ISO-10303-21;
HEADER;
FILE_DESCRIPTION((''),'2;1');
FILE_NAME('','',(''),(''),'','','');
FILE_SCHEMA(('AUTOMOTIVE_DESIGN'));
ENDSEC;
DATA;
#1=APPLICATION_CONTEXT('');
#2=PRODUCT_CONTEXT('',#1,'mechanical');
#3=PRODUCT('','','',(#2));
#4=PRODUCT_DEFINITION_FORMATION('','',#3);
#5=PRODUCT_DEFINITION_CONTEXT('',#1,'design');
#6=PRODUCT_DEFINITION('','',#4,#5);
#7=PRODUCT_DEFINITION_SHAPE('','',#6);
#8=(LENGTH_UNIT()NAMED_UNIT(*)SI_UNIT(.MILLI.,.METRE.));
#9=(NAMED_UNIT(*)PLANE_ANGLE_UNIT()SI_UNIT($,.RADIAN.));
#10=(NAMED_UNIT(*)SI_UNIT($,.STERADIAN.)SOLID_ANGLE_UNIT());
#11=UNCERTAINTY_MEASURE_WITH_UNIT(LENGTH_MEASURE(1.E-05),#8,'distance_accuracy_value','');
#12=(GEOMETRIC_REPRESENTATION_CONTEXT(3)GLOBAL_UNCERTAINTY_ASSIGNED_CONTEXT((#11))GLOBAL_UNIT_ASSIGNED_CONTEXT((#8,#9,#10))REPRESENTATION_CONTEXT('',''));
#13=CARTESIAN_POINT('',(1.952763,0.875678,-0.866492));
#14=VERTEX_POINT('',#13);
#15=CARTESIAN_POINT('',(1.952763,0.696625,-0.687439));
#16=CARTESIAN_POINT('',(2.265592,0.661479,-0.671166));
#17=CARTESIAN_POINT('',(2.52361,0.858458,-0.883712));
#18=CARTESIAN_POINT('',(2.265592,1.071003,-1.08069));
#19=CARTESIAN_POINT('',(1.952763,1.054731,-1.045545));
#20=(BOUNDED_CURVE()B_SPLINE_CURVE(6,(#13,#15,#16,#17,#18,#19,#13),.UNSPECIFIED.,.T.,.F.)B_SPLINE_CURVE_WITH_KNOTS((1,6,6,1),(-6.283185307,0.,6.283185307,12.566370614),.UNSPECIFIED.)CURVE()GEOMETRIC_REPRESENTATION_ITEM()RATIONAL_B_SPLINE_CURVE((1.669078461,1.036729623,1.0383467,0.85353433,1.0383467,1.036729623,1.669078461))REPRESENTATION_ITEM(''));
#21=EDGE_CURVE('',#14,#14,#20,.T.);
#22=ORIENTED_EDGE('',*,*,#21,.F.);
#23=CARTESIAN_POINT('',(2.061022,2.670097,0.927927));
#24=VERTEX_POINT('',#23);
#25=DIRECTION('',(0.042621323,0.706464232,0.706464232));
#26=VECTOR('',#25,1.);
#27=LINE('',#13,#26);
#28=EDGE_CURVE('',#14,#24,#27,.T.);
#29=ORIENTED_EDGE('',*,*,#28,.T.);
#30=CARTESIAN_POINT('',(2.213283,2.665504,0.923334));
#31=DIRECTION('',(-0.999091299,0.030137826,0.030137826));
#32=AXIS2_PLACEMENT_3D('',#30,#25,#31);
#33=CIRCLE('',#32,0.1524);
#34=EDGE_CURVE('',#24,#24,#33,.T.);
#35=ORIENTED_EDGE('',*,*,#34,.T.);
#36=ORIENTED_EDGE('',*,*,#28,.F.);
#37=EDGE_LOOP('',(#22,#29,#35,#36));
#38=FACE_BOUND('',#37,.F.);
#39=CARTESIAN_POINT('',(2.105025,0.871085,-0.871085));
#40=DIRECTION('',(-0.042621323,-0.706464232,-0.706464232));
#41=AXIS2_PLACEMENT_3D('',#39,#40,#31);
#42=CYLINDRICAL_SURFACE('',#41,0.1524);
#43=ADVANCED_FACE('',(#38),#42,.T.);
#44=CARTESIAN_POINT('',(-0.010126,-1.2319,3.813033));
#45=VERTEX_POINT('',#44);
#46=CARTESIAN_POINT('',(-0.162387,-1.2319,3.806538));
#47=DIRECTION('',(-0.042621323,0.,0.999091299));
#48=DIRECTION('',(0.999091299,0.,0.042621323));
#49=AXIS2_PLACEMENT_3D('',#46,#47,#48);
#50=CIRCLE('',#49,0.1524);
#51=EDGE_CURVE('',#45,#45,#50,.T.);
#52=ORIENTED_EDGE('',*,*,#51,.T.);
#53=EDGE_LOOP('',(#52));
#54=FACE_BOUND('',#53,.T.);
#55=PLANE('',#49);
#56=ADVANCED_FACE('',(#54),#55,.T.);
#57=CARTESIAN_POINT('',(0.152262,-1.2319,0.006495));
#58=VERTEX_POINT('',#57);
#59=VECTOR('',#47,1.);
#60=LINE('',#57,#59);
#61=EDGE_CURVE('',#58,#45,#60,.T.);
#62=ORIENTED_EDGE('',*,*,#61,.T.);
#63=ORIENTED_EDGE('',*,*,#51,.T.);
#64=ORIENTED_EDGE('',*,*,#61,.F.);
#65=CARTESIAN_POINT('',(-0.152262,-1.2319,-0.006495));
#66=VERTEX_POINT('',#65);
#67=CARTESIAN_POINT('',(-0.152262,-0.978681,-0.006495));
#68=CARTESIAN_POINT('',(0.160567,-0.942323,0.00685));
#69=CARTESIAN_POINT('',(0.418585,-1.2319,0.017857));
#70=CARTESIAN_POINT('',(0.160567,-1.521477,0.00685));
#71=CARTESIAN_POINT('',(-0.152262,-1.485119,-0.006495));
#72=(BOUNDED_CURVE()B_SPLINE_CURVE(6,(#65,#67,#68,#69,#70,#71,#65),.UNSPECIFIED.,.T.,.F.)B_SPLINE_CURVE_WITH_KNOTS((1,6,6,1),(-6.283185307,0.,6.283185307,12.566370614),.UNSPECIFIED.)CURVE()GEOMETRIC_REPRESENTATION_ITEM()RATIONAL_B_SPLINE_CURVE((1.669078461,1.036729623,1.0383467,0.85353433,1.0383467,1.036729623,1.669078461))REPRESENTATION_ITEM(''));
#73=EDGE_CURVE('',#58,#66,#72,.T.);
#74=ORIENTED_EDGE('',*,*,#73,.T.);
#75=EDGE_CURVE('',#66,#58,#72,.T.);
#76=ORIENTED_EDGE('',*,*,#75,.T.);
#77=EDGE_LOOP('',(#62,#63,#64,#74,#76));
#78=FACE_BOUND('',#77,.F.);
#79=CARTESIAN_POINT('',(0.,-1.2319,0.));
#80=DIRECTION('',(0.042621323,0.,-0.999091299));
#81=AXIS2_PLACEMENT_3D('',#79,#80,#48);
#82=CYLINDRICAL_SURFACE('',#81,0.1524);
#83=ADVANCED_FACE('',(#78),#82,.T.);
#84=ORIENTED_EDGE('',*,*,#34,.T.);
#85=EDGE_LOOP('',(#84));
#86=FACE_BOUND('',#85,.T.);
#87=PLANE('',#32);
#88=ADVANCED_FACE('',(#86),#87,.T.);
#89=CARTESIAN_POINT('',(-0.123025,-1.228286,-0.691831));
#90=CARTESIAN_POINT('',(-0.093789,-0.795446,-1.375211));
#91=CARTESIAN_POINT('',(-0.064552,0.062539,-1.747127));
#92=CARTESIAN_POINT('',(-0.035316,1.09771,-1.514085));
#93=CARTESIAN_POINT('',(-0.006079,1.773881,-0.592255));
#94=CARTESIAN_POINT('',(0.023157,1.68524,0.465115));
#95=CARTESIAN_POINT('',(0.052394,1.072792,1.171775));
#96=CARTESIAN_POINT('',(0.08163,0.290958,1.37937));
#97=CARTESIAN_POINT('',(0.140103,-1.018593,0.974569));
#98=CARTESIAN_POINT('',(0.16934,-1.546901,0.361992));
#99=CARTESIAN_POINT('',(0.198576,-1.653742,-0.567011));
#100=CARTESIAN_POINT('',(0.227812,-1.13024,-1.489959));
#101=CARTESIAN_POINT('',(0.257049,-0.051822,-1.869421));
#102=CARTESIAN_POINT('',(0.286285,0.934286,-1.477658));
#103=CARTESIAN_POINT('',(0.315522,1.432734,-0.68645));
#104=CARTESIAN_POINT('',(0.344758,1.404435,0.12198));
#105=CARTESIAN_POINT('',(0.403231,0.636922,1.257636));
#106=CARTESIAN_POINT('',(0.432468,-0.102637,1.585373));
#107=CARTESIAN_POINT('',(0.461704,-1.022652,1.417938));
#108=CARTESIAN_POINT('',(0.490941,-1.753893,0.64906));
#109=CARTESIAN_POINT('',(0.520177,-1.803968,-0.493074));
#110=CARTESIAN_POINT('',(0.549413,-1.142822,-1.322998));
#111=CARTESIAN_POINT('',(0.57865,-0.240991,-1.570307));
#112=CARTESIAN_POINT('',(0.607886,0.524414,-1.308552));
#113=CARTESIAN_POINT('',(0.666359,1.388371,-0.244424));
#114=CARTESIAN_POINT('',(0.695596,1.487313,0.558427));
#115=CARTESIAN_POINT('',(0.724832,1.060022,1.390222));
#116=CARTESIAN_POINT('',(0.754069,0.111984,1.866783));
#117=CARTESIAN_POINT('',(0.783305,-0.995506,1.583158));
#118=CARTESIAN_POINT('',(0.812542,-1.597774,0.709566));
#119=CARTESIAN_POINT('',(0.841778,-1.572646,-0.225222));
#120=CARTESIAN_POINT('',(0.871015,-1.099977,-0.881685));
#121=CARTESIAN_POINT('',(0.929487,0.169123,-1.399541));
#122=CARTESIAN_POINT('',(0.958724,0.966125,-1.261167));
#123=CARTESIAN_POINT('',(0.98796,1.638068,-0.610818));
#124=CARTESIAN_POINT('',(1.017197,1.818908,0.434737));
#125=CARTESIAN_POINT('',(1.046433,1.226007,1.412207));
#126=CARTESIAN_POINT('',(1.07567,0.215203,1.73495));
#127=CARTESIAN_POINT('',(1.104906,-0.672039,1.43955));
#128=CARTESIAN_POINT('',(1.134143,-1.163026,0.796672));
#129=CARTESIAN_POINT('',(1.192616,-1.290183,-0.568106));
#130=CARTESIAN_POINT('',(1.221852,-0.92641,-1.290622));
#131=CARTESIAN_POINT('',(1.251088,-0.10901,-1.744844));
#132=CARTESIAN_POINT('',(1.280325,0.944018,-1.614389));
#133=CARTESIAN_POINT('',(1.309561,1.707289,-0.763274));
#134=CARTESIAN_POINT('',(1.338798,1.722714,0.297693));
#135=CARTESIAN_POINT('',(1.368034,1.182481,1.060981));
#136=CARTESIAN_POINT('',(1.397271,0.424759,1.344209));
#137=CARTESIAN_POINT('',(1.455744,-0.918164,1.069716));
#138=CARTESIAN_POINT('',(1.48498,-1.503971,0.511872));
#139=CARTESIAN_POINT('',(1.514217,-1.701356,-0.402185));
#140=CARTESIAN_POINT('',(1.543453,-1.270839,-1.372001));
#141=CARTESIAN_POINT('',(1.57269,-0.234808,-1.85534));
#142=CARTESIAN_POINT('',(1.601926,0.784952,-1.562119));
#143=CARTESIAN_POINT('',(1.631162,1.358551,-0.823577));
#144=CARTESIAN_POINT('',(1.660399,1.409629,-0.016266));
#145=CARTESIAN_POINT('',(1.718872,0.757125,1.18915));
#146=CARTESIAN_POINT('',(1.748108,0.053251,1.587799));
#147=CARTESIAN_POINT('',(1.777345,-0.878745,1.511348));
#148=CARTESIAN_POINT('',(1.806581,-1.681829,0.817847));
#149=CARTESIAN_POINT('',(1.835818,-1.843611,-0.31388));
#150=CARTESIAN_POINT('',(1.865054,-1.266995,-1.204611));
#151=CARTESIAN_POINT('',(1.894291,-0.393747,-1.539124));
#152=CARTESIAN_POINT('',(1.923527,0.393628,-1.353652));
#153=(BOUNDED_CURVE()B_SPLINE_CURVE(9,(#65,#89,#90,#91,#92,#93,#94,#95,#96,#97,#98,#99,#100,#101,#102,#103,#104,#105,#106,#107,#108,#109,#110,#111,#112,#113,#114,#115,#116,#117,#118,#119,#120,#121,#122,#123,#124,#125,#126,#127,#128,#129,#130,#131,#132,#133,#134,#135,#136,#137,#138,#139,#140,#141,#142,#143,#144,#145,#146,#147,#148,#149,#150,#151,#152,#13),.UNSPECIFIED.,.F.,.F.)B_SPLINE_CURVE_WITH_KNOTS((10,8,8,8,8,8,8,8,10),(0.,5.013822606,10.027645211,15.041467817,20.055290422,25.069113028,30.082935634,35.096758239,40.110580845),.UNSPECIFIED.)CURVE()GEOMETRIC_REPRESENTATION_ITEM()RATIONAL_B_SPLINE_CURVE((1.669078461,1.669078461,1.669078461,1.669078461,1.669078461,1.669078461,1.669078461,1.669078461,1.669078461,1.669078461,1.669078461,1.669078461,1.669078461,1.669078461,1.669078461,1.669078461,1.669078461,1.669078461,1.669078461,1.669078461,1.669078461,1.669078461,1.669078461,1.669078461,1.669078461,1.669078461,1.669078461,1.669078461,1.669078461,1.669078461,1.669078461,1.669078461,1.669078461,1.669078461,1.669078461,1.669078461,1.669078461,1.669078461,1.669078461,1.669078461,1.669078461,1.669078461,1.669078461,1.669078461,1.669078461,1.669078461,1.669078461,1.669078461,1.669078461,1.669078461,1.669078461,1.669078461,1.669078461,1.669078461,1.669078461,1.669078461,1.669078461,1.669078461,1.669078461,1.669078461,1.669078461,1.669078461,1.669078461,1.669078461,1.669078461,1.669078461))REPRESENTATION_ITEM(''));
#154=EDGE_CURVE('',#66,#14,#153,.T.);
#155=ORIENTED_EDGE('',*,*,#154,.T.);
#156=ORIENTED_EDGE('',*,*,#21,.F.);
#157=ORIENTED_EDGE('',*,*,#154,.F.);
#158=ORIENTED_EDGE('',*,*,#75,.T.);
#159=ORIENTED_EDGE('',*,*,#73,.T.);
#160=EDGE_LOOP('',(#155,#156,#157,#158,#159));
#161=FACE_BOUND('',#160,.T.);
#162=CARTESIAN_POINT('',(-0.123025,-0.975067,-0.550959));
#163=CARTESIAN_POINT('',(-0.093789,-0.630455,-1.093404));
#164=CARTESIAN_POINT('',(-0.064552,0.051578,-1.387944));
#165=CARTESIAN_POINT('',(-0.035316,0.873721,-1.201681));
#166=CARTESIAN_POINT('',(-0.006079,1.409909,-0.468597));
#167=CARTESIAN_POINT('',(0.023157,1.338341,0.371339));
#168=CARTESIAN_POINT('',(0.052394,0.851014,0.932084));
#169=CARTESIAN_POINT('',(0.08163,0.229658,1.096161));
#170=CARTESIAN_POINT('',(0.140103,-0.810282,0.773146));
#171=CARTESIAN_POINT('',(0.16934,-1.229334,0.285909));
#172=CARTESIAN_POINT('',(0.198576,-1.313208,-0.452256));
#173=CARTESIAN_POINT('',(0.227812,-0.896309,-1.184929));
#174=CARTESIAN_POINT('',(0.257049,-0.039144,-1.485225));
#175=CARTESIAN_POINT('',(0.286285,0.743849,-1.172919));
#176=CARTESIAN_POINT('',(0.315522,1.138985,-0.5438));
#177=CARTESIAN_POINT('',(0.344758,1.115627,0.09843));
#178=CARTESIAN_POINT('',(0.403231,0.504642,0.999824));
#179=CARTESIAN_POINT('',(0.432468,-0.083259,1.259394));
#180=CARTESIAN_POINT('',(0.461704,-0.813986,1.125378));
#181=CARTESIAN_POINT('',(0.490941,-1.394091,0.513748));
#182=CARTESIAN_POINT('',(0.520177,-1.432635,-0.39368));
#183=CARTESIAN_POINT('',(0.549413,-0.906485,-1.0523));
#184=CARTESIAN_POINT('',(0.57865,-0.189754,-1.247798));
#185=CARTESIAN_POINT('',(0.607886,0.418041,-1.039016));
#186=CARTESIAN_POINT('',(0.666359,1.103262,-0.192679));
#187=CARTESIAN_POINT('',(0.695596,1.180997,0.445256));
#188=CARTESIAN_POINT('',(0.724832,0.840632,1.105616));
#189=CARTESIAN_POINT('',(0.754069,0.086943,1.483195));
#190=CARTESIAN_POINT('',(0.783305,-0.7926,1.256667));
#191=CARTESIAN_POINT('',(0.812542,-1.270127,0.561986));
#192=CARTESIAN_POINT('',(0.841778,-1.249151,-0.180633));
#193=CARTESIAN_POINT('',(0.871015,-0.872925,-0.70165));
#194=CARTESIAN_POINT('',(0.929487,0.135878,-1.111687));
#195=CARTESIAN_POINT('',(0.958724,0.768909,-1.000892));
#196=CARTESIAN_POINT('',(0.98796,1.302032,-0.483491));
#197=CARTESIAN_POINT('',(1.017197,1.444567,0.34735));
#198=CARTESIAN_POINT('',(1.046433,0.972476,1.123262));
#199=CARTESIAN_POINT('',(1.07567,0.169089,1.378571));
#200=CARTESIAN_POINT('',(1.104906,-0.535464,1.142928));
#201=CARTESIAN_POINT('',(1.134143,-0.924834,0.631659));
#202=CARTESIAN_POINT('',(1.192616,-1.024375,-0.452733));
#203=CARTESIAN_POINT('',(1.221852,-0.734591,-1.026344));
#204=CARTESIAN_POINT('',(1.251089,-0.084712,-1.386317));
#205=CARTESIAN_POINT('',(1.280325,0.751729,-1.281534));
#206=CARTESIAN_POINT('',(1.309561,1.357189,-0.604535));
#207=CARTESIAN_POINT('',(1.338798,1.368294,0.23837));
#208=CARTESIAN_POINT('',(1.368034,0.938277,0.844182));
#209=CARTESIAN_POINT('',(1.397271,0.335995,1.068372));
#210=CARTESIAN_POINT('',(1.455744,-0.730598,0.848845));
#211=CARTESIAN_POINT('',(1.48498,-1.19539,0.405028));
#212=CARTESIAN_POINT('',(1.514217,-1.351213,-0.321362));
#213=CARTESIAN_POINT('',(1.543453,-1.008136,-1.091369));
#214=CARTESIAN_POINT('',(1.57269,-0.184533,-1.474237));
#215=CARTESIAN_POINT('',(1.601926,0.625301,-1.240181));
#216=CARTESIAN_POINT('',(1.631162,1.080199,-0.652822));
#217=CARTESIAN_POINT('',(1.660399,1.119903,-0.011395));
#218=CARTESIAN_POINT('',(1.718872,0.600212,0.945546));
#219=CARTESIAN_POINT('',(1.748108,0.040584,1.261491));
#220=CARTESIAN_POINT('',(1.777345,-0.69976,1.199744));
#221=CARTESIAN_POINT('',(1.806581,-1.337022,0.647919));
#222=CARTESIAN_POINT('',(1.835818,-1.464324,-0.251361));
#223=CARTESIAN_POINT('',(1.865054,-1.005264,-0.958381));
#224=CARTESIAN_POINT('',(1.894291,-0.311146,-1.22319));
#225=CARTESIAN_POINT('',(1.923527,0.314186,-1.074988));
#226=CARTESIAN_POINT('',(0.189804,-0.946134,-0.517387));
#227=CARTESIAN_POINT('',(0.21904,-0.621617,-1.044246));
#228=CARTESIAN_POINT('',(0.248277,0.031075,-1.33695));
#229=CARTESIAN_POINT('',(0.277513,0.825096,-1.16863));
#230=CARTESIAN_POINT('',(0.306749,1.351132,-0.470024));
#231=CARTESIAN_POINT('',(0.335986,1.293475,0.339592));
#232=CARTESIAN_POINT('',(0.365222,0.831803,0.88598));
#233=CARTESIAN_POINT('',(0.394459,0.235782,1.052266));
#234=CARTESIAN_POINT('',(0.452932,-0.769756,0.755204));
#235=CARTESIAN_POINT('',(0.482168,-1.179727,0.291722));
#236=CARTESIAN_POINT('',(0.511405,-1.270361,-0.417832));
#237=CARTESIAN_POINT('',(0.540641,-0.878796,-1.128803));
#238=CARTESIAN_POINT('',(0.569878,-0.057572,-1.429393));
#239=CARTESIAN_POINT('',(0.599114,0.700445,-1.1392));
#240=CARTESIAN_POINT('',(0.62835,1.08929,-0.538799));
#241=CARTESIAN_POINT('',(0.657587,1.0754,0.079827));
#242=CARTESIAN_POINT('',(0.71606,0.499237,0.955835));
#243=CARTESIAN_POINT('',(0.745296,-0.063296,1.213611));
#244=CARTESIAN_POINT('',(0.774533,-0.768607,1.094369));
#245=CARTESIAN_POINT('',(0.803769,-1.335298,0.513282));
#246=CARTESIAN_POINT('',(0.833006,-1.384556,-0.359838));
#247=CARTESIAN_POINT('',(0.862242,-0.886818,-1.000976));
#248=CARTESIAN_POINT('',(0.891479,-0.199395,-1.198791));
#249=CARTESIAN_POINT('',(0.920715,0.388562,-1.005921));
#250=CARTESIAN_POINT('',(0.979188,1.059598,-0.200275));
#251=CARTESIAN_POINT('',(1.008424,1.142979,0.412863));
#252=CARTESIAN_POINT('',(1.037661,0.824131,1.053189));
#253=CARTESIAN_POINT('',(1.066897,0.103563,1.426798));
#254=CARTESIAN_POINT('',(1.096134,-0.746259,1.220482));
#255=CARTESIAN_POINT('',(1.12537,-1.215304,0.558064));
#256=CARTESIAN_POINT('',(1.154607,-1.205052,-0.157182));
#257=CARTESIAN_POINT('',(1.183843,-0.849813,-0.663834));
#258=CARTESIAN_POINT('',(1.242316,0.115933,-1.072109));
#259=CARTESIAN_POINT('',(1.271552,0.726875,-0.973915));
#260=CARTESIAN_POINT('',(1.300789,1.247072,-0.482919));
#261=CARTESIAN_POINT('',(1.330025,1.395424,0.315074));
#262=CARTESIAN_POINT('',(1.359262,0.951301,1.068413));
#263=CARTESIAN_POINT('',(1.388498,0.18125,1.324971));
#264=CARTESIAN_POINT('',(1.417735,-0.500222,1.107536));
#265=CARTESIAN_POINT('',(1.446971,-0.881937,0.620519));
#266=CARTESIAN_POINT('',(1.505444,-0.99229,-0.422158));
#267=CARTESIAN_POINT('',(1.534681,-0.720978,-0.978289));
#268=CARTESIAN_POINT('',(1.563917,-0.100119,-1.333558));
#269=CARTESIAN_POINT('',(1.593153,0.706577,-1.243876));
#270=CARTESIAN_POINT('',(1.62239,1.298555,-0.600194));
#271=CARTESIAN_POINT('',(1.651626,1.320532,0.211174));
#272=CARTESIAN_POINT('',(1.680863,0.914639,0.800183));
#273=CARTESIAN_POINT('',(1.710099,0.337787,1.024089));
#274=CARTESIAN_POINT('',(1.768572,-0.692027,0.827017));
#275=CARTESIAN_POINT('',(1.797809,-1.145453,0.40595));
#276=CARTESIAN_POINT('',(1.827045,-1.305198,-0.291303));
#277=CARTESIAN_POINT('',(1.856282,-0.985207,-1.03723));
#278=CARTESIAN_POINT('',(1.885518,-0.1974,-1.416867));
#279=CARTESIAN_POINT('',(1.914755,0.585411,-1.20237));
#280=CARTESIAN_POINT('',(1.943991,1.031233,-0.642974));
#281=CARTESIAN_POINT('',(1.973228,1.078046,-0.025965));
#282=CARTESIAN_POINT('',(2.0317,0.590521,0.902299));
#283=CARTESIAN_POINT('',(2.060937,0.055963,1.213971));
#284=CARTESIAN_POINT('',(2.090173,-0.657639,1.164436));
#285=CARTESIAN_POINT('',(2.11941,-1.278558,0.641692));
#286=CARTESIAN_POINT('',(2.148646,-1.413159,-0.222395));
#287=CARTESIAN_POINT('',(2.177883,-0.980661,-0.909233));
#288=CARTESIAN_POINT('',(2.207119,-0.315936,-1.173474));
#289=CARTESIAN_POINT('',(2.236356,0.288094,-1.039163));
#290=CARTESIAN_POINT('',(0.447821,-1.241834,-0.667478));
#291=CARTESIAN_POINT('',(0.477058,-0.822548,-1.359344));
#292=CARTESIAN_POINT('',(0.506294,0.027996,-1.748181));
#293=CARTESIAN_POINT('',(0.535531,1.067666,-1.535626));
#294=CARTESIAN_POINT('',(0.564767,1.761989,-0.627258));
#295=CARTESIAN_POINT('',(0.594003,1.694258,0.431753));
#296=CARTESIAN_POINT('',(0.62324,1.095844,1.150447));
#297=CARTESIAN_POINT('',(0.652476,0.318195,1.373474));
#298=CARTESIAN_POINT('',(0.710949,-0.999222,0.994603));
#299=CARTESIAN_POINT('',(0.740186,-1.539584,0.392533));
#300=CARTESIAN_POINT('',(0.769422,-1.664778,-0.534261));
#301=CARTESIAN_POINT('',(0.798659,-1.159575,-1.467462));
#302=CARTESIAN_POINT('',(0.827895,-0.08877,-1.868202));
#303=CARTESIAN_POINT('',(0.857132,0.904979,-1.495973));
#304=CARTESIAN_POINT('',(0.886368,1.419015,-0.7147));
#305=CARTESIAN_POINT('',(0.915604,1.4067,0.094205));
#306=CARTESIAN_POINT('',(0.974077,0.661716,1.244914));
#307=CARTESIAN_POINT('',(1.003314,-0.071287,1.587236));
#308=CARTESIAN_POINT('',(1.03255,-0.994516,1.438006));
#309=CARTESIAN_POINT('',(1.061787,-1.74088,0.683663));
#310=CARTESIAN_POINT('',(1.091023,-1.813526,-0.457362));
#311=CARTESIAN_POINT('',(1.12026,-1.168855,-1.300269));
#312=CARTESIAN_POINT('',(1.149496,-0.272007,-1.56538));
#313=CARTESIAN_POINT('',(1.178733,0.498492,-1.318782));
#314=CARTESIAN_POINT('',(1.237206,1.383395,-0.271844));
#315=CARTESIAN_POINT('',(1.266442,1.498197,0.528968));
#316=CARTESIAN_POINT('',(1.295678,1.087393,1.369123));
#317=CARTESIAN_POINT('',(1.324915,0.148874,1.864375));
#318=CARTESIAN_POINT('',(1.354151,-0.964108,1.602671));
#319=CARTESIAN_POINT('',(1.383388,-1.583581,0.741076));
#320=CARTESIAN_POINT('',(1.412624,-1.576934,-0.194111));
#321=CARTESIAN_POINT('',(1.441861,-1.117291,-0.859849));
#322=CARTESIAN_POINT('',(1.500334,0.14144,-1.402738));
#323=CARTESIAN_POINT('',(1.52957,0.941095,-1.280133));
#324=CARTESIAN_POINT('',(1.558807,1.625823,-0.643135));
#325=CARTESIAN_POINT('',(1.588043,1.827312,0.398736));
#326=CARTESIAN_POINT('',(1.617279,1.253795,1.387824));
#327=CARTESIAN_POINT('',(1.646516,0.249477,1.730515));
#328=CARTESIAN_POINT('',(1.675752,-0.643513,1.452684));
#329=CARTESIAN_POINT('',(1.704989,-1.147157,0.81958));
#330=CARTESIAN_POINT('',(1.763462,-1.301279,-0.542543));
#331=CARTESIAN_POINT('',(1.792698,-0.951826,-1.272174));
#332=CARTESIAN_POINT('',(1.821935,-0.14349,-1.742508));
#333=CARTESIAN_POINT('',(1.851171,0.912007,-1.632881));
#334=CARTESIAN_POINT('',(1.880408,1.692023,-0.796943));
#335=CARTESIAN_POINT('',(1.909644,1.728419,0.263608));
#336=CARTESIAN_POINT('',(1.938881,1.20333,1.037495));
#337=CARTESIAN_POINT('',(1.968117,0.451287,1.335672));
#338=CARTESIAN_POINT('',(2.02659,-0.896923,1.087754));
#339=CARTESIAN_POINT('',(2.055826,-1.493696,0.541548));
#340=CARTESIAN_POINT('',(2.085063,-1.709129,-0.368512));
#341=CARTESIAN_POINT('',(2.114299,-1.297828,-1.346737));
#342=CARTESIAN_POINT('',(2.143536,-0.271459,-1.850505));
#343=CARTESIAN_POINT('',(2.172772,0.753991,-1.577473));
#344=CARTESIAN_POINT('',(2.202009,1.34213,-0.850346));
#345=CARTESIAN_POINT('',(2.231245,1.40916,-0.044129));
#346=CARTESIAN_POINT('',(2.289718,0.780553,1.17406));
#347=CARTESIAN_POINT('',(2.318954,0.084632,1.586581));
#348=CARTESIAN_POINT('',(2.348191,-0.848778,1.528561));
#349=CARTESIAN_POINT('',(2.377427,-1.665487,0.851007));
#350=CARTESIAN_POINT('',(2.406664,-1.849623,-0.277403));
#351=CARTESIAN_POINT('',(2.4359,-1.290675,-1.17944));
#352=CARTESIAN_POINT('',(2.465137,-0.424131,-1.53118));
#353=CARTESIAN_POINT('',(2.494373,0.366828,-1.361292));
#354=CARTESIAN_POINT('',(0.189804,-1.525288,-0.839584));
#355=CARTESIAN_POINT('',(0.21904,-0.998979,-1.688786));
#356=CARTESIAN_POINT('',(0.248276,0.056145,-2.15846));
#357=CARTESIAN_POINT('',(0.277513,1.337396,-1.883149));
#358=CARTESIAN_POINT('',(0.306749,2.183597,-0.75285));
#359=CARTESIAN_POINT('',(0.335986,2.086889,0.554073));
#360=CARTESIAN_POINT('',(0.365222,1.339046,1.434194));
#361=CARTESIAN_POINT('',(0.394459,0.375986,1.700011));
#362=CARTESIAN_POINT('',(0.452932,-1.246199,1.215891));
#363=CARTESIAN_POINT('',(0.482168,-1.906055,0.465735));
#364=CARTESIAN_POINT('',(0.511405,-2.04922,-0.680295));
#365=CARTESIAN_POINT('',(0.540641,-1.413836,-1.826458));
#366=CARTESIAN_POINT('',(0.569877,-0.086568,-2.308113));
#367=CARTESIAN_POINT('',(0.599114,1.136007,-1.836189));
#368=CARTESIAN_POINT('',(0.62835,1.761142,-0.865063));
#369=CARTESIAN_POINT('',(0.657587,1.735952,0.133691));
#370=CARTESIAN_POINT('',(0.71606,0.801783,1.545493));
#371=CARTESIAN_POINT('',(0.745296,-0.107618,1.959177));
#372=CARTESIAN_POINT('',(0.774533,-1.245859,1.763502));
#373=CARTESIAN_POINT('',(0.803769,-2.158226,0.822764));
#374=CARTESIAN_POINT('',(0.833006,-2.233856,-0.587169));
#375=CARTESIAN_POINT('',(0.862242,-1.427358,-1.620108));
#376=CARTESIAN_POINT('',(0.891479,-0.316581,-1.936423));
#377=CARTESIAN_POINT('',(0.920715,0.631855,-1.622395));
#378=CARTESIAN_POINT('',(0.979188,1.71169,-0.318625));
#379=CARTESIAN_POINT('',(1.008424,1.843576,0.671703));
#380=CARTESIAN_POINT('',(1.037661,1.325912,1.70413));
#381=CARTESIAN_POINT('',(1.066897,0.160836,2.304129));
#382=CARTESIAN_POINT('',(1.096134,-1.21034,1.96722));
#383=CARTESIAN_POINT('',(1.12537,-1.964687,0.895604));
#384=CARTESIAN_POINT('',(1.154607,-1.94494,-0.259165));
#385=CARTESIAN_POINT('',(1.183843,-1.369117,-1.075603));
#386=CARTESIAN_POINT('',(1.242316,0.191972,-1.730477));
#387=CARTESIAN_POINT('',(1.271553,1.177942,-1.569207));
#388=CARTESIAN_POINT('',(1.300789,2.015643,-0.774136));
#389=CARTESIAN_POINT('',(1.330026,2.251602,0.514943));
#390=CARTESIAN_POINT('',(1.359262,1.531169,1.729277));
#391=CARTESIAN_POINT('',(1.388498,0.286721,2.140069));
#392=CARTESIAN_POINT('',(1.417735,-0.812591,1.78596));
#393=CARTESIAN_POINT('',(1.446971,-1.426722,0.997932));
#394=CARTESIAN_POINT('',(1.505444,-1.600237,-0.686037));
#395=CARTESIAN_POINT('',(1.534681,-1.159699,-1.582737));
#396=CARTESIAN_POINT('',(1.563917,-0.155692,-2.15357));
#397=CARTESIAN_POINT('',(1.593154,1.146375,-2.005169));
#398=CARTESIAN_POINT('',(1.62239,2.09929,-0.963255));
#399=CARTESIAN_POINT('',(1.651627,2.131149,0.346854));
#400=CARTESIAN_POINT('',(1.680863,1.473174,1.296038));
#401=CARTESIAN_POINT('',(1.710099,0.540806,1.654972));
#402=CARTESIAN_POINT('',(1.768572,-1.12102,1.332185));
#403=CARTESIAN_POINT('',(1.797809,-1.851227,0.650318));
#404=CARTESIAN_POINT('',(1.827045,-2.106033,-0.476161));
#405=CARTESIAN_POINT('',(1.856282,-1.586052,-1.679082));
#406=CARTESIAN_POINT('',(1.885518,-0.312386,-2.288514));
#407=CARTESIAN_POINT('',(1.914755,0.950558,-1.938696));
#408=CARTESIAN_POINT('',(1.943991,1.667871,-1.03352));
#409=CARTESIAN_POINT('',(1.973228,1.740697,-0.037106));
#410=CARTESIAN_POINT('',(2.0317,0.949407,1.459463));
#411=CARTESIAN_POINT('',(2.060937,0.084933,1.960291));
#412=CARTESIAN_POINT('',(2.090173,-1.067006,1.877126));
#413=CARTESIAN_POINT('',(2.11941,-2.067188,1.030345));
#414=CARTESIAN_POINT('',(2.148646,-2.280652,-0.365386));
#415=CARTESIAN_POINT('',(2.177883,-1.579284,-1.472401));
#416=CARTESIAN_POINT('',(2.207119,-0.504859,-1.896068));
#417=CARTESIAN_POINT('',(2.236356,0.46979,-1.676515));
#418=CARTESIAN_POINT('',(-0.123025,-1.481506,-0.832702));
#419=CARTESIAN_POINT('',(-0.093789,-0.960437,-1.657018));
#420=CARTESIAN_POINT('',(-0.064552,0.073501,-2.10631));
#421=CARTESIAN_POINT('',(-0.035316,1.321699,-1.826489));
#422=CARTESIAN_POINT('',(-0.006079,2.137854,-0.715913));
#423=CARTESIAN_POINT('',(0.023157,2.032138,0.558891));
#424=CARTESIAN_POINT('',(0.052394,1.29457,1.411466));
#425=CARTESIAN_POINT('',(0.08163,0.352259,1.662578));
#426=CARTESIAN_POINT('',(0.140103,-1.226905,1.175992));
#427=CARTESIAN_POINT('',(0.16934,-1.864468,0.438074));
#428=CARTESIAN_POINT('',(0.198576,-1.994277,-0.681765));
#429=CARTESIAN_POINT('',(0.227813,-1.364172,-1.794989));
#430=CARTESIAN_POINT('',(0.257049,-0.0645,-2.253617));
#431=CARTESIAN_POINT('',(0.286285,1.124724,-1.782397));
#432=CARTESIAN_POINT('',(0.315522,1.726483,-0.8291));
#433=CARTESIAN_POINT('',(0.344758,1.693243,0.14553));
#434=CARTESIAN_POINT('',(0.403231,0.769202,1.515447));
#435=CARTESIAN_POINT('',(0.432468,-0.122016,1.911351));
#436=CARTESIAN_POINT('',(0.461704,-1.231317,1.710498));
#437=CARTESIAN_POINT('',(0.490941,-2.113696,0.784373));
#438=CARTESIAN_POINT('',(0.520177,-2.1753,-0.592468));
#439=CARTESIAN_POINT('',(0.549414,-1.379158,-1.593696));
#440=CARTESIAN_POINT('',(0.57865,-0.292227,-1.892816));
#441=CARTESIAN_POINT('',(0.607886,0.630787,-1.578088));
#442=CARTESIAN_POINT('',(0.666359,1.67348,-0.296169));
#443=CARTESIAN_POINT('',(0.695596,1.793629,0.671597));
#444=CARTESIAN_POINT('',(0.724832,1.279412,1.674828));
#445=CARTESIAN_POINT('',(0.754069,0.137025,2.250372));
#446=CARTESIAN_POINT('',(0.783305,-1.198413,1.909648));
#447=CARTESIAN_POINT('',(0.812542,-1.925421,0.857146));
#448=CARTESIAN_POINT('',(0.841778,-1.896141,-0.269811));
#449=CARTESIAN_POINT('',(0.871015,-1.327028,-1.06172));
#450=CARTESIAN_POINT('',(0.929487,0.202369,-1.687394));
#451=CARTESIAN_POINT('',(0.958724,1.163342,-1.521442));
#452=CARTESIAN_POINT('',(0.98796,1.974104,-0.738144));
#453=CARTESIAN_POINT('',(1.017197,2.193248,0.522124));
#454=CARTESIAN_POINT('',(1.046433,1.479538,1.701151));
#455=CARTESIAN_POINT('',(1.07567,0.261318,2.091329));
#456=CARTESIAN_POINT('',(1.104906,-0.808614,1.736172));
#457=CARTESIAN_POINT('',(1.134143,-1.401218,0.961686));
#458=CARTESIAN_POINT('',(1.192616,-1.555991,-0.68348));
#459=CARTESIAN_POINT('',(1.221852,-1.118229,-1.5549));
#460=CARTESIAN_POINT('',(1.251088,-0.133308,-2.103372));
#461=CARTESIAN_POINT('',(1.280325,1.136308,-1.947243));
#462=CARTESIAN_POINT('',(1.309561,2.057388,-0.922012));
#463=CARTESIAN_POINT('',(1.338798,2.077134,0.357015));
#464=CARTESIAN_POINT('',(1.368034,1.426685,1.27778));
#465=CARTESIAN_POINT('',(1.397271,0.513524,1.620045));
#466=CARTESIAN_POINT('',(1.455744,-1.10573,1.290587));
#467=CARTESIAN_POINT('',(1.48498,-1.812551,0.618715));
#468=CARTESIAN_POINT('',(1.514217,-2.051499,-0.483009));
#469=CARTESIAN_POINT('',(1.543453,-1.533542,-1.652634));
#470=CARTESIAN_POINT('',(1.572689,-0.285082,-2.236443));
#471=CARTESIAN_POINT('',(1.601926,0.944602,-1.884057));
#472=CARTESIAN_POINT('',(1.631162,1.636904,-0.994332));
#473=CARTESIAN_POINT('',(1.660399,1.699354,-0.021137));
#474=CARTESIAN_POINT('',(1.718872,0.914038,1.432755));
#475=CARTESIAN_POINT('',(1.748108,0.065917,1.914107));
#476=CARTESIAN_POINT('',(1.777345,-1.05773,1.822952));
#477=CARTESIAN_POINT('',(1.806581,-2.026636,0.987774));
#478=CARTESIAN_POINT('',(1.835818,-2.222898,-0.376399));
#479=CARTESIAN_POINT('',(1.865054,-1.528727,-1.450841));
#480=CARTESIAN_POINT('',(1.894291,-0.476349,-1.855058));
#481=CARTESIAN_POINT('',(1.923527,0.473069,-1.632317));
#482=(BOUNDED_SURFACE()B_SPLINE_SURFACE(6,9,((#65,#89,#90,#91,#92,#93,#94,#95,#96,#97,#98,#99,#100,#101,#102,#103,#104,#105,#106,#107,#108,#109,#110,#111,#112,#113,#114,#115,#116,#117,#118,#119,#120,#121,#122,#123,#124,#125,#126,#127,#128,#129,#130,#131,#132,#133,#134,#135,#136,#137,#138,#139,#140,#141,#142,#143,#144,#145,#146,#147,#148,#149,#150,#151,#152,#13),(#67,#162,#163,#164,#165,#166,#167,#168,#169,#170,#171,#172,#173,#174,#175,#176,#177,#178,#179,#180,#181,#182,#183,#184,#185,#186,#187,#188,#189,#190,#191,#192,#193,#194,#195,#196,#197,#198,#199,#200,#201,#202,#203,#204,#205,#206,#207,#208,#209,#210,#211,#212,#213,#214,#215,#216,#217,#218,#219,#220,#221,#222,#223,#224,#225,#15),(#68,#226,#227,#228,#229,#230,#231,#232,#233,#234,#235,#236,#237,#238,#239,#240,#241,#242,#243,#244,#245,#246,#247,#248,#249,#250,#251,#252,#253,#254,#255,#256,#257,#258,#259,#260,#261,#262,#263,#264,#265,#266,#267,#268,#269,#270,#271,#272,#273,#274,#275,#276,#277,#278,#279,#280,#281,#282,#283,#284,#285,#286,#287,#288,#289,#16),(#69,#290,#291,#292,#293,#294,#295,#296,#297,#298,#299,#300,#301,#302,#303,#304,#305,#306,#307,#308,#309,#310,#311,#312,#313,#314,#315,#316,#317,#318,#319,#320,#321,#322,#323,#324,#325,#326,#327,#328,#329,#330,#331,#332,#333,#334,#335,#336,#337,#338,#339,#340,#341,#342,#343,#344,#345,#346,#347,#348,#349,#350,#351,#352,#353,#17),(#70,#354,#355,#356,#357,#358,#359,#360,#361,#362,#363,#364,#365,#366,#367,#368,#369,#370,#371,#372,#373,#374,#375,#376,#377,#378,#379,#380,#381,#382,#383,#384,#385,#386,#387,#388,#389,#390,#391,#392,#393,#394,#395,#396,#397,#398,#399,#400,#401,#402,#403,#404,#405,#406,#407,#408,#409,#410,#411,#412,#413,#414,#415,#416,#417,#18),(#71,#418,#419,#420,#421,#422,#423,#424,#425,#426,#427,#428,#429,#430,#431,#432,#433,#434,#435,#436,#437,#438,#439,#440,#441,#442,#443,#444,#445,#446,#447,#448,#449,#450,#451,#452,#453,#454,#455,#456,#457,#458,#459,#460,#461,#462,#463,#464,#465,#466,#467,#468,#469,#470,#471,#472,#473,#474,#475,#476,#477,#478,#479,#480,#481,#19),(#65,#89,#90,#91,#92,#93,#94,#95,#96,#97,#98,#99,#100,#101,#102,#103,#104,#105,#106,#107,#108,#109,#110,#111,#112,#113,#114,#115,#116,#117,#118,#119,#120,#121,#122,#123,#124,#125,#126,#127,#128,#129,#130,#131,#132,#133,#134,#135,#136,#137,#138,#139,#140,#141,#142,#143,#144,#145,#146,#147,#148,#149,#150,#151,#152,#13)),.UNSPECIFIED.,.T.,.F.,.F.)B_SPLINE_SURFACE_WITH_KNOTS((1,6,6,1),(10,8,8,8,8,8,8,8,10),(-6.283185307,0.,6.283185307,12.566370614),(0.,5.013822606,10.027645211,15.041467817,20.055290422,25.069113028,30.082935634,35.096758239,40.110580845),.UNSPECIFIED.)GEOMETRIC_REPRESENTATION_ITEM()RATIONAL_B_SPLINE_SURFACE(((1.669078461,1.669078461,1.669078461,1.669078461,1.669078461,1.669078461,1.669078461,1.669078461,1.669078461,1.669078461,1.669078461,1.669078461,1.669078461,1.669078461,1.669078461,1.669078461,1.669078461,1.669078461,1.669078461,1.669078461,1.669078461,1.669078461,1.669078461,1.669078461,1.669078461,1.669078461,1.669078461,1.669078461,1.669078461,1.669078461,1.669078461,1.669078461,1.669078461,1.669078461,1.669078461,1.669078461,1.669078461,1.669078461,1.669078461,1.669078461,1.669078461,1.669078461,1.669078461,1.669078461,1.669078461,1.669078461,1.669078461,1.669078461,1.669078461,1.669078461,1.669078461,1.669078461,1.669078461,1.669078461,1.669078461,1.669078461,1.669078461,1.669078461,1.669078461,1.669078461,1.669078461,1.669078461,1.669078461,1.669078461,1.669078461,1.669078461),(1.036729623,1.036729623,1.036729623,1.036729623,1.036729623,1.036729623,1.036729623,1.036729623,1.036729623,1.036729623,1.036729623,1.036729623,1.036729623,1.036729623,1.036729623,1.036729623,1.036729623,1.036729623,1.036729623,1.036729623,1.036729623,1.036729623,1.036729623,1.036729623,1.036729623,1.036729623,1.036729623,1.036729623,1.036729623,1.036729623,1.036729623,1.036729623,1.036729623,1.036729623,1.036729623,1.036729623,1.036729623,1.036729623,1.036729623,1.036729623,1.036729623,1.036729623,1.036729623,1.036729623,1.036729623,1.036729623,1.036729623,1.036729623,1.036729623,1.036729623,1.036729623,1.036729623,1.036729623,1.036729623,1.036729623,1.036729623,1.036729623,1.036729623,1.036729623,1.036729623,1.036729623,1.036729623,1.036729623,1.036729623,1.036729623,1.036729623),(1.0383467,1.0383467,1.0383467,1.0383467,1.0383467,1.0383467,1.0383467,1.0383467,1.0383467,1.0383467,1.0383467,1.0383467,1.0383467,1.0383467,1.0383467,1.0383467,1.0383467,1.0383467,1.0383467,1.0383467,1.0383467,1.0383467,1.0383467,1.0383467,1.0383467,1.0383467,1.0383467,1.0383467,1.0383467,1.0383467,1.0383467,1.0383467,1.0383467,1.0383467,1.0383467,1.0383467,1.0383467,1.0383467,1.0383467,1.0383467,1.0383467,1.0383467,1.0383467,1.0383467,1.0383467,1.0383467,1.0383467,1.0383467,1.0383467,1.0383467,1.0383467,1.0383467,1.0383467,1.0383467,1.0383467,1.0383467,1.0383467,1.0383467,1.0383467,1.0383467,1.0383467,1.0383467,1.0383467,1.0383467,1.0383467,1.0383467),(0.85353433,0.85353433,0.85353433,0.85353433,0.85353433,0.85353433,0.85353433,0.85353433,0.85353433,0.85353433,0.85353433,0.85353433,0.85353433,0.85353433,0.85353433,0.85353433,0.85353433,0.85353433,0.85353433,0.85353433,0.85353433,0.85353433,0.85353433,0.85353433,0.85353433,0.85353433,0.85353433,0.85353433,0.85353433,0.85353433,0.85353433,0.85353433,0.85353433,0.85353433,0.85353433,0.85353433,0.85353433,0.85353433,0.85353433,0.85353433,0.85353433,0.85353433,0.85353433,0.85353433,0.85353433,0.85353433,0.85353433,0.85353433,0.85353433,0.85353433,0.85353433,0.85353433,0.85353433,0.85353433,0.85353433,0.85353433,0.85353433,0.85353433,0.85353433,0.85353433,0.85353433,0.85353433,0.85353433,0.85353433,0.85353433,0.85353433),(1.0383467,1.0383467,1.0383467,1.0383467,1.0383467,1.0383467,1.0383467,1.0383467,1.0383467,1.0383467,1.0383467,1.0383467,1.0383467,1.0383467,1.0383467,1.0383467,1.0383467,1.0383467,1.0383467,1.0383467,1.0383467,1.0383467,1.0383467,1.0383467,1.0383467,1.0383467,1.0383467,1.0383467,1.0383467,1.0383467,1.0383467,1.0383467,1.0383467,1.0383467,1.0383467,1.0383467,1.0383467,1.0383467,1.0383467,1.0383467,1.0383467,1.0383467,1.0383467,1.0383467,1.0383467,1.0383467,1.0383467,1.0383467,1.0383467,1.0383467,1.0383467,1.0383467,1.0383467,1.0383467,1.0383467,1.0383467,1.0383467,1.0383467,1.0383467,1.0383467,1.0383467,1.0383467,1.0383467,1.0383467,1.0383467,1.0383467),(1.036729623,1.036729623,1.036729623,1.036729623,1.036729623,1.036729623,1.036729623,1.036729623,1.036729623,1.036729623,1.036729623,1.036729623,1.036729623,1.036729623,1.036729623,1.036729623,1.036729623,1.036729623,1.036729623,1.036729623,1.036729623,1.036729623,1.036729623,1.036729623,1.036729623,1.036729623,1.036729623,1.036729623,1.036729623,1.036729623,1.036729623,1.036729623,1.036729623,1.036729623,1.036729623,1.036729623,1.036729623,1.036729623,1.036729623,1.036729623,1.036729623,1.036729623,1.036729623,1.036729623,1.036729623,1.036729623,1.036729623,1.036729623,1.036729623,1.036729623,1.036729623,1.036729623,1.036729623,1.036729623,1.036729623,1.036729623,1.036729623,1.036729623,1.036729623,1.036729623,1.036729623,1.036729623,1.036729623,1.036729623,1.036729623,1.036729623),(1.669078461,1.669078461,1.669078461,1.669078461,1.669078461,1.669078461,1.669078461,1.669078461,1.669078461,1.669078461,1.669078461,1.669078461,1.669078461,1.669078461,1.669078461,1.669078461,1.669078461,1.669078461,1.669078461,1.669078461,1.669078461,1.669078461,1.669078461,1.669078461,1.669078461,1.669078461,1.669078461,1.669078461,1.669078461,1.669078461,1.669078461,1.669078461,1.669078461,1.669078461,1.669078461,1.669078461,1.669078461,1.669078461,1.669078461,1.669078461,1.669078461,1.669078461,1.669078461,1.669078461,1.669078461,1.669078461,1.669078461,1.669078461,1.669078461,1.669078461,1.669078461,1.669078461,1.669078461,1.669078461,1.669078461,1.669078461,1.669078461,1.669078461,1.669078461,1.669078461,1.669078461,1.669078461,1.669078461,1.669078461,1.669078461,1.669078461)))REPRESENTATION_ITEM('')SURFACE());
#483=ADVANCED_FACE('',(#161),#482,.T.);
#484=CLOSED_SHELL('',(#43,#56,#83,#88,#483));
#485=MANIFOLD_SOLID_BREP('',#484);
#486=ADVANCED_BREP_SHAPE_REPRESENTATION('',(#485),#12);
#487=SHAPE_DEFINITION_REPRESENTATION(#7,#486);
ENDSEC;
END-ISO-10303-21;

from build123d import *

# Parameters (mm, degrees)
SWEEP1_PITCH       = 0.3302
SWEEP1_HEIGHT      = 2.105025
SWEEP1_RADIUS      = 1.2319
SWEEP1_START_ANGLE = 90
SKETCH2_R          = 0.1524
SKETCH3_R          = 0.1524
EXTRUDE1_DEPTH     = 3.81
SKETCH4_R          = 0.1524
EXTRUDE2_DEPTH     = 2.54


with BuildPart() as part:
    # Sweep1: sweep along a helix
    with BuildLine() as sweep1_path:
        add(Helix(SWEEP1_PITCH, SWEEP1_HEIGHT, SWEEP1_RADIUS, center=(0, 0, 0), direction=(1, 0, 0), mode=Mode.PRIVATE).rotate(Axis((0, 0, 0), (1, 0, 0)), SWEEP1_START_ANGLE))
    # Sketch2 → Sweep1 (sweep)
    with BuildSketch(Plane(origin=(0, -1.2319, 0), x_dir=(-0.9990912985626407, 2.684849729745596e-14, -0.042621322555927425), z_dir=(0.042621322555927425, 1.0817088978066002e-14, -0.9990912985626407))):
        Circle(SKETCH2_R)
    sweep(path=sweep1_path.line, is_frenet=True)

    # Sketch3 → Extrude1 (add)
    with BuildSketch(Plane(origin=(0, 0, 0), x_dir=(0.9990912985626407, -2.682074438491412e-14, 0.04262132255592743), z_dir=(-0.04262132255592743, -1.0817088978066004e-14, 0.9990912985626407))):
        with Locations((0, -1.2319)):
            Circle(SKETCH3_R)
    extrude(amount=EXTRUDE1_DEPTH)

    # Sketch4 → Extrude2 (add)
    with BuildSketch(Plane(origin=(0.00382394, 0.063383229, 0.063383229), x_dir=(-0.9779256913157212, 0.17427663390157874, -0.11527791263118937), z_dir=(0.042621322555927404, 0.7064642322380456, 0.706464232238188))):
        with Locations(Location((-1.806331451, -1.636406141, 0), (0, 0, 11.814629565))):
            Circle(SKETCH4_R)
    extrude(amount=EXTRUDE2_DEPTH)


solid = part.part
